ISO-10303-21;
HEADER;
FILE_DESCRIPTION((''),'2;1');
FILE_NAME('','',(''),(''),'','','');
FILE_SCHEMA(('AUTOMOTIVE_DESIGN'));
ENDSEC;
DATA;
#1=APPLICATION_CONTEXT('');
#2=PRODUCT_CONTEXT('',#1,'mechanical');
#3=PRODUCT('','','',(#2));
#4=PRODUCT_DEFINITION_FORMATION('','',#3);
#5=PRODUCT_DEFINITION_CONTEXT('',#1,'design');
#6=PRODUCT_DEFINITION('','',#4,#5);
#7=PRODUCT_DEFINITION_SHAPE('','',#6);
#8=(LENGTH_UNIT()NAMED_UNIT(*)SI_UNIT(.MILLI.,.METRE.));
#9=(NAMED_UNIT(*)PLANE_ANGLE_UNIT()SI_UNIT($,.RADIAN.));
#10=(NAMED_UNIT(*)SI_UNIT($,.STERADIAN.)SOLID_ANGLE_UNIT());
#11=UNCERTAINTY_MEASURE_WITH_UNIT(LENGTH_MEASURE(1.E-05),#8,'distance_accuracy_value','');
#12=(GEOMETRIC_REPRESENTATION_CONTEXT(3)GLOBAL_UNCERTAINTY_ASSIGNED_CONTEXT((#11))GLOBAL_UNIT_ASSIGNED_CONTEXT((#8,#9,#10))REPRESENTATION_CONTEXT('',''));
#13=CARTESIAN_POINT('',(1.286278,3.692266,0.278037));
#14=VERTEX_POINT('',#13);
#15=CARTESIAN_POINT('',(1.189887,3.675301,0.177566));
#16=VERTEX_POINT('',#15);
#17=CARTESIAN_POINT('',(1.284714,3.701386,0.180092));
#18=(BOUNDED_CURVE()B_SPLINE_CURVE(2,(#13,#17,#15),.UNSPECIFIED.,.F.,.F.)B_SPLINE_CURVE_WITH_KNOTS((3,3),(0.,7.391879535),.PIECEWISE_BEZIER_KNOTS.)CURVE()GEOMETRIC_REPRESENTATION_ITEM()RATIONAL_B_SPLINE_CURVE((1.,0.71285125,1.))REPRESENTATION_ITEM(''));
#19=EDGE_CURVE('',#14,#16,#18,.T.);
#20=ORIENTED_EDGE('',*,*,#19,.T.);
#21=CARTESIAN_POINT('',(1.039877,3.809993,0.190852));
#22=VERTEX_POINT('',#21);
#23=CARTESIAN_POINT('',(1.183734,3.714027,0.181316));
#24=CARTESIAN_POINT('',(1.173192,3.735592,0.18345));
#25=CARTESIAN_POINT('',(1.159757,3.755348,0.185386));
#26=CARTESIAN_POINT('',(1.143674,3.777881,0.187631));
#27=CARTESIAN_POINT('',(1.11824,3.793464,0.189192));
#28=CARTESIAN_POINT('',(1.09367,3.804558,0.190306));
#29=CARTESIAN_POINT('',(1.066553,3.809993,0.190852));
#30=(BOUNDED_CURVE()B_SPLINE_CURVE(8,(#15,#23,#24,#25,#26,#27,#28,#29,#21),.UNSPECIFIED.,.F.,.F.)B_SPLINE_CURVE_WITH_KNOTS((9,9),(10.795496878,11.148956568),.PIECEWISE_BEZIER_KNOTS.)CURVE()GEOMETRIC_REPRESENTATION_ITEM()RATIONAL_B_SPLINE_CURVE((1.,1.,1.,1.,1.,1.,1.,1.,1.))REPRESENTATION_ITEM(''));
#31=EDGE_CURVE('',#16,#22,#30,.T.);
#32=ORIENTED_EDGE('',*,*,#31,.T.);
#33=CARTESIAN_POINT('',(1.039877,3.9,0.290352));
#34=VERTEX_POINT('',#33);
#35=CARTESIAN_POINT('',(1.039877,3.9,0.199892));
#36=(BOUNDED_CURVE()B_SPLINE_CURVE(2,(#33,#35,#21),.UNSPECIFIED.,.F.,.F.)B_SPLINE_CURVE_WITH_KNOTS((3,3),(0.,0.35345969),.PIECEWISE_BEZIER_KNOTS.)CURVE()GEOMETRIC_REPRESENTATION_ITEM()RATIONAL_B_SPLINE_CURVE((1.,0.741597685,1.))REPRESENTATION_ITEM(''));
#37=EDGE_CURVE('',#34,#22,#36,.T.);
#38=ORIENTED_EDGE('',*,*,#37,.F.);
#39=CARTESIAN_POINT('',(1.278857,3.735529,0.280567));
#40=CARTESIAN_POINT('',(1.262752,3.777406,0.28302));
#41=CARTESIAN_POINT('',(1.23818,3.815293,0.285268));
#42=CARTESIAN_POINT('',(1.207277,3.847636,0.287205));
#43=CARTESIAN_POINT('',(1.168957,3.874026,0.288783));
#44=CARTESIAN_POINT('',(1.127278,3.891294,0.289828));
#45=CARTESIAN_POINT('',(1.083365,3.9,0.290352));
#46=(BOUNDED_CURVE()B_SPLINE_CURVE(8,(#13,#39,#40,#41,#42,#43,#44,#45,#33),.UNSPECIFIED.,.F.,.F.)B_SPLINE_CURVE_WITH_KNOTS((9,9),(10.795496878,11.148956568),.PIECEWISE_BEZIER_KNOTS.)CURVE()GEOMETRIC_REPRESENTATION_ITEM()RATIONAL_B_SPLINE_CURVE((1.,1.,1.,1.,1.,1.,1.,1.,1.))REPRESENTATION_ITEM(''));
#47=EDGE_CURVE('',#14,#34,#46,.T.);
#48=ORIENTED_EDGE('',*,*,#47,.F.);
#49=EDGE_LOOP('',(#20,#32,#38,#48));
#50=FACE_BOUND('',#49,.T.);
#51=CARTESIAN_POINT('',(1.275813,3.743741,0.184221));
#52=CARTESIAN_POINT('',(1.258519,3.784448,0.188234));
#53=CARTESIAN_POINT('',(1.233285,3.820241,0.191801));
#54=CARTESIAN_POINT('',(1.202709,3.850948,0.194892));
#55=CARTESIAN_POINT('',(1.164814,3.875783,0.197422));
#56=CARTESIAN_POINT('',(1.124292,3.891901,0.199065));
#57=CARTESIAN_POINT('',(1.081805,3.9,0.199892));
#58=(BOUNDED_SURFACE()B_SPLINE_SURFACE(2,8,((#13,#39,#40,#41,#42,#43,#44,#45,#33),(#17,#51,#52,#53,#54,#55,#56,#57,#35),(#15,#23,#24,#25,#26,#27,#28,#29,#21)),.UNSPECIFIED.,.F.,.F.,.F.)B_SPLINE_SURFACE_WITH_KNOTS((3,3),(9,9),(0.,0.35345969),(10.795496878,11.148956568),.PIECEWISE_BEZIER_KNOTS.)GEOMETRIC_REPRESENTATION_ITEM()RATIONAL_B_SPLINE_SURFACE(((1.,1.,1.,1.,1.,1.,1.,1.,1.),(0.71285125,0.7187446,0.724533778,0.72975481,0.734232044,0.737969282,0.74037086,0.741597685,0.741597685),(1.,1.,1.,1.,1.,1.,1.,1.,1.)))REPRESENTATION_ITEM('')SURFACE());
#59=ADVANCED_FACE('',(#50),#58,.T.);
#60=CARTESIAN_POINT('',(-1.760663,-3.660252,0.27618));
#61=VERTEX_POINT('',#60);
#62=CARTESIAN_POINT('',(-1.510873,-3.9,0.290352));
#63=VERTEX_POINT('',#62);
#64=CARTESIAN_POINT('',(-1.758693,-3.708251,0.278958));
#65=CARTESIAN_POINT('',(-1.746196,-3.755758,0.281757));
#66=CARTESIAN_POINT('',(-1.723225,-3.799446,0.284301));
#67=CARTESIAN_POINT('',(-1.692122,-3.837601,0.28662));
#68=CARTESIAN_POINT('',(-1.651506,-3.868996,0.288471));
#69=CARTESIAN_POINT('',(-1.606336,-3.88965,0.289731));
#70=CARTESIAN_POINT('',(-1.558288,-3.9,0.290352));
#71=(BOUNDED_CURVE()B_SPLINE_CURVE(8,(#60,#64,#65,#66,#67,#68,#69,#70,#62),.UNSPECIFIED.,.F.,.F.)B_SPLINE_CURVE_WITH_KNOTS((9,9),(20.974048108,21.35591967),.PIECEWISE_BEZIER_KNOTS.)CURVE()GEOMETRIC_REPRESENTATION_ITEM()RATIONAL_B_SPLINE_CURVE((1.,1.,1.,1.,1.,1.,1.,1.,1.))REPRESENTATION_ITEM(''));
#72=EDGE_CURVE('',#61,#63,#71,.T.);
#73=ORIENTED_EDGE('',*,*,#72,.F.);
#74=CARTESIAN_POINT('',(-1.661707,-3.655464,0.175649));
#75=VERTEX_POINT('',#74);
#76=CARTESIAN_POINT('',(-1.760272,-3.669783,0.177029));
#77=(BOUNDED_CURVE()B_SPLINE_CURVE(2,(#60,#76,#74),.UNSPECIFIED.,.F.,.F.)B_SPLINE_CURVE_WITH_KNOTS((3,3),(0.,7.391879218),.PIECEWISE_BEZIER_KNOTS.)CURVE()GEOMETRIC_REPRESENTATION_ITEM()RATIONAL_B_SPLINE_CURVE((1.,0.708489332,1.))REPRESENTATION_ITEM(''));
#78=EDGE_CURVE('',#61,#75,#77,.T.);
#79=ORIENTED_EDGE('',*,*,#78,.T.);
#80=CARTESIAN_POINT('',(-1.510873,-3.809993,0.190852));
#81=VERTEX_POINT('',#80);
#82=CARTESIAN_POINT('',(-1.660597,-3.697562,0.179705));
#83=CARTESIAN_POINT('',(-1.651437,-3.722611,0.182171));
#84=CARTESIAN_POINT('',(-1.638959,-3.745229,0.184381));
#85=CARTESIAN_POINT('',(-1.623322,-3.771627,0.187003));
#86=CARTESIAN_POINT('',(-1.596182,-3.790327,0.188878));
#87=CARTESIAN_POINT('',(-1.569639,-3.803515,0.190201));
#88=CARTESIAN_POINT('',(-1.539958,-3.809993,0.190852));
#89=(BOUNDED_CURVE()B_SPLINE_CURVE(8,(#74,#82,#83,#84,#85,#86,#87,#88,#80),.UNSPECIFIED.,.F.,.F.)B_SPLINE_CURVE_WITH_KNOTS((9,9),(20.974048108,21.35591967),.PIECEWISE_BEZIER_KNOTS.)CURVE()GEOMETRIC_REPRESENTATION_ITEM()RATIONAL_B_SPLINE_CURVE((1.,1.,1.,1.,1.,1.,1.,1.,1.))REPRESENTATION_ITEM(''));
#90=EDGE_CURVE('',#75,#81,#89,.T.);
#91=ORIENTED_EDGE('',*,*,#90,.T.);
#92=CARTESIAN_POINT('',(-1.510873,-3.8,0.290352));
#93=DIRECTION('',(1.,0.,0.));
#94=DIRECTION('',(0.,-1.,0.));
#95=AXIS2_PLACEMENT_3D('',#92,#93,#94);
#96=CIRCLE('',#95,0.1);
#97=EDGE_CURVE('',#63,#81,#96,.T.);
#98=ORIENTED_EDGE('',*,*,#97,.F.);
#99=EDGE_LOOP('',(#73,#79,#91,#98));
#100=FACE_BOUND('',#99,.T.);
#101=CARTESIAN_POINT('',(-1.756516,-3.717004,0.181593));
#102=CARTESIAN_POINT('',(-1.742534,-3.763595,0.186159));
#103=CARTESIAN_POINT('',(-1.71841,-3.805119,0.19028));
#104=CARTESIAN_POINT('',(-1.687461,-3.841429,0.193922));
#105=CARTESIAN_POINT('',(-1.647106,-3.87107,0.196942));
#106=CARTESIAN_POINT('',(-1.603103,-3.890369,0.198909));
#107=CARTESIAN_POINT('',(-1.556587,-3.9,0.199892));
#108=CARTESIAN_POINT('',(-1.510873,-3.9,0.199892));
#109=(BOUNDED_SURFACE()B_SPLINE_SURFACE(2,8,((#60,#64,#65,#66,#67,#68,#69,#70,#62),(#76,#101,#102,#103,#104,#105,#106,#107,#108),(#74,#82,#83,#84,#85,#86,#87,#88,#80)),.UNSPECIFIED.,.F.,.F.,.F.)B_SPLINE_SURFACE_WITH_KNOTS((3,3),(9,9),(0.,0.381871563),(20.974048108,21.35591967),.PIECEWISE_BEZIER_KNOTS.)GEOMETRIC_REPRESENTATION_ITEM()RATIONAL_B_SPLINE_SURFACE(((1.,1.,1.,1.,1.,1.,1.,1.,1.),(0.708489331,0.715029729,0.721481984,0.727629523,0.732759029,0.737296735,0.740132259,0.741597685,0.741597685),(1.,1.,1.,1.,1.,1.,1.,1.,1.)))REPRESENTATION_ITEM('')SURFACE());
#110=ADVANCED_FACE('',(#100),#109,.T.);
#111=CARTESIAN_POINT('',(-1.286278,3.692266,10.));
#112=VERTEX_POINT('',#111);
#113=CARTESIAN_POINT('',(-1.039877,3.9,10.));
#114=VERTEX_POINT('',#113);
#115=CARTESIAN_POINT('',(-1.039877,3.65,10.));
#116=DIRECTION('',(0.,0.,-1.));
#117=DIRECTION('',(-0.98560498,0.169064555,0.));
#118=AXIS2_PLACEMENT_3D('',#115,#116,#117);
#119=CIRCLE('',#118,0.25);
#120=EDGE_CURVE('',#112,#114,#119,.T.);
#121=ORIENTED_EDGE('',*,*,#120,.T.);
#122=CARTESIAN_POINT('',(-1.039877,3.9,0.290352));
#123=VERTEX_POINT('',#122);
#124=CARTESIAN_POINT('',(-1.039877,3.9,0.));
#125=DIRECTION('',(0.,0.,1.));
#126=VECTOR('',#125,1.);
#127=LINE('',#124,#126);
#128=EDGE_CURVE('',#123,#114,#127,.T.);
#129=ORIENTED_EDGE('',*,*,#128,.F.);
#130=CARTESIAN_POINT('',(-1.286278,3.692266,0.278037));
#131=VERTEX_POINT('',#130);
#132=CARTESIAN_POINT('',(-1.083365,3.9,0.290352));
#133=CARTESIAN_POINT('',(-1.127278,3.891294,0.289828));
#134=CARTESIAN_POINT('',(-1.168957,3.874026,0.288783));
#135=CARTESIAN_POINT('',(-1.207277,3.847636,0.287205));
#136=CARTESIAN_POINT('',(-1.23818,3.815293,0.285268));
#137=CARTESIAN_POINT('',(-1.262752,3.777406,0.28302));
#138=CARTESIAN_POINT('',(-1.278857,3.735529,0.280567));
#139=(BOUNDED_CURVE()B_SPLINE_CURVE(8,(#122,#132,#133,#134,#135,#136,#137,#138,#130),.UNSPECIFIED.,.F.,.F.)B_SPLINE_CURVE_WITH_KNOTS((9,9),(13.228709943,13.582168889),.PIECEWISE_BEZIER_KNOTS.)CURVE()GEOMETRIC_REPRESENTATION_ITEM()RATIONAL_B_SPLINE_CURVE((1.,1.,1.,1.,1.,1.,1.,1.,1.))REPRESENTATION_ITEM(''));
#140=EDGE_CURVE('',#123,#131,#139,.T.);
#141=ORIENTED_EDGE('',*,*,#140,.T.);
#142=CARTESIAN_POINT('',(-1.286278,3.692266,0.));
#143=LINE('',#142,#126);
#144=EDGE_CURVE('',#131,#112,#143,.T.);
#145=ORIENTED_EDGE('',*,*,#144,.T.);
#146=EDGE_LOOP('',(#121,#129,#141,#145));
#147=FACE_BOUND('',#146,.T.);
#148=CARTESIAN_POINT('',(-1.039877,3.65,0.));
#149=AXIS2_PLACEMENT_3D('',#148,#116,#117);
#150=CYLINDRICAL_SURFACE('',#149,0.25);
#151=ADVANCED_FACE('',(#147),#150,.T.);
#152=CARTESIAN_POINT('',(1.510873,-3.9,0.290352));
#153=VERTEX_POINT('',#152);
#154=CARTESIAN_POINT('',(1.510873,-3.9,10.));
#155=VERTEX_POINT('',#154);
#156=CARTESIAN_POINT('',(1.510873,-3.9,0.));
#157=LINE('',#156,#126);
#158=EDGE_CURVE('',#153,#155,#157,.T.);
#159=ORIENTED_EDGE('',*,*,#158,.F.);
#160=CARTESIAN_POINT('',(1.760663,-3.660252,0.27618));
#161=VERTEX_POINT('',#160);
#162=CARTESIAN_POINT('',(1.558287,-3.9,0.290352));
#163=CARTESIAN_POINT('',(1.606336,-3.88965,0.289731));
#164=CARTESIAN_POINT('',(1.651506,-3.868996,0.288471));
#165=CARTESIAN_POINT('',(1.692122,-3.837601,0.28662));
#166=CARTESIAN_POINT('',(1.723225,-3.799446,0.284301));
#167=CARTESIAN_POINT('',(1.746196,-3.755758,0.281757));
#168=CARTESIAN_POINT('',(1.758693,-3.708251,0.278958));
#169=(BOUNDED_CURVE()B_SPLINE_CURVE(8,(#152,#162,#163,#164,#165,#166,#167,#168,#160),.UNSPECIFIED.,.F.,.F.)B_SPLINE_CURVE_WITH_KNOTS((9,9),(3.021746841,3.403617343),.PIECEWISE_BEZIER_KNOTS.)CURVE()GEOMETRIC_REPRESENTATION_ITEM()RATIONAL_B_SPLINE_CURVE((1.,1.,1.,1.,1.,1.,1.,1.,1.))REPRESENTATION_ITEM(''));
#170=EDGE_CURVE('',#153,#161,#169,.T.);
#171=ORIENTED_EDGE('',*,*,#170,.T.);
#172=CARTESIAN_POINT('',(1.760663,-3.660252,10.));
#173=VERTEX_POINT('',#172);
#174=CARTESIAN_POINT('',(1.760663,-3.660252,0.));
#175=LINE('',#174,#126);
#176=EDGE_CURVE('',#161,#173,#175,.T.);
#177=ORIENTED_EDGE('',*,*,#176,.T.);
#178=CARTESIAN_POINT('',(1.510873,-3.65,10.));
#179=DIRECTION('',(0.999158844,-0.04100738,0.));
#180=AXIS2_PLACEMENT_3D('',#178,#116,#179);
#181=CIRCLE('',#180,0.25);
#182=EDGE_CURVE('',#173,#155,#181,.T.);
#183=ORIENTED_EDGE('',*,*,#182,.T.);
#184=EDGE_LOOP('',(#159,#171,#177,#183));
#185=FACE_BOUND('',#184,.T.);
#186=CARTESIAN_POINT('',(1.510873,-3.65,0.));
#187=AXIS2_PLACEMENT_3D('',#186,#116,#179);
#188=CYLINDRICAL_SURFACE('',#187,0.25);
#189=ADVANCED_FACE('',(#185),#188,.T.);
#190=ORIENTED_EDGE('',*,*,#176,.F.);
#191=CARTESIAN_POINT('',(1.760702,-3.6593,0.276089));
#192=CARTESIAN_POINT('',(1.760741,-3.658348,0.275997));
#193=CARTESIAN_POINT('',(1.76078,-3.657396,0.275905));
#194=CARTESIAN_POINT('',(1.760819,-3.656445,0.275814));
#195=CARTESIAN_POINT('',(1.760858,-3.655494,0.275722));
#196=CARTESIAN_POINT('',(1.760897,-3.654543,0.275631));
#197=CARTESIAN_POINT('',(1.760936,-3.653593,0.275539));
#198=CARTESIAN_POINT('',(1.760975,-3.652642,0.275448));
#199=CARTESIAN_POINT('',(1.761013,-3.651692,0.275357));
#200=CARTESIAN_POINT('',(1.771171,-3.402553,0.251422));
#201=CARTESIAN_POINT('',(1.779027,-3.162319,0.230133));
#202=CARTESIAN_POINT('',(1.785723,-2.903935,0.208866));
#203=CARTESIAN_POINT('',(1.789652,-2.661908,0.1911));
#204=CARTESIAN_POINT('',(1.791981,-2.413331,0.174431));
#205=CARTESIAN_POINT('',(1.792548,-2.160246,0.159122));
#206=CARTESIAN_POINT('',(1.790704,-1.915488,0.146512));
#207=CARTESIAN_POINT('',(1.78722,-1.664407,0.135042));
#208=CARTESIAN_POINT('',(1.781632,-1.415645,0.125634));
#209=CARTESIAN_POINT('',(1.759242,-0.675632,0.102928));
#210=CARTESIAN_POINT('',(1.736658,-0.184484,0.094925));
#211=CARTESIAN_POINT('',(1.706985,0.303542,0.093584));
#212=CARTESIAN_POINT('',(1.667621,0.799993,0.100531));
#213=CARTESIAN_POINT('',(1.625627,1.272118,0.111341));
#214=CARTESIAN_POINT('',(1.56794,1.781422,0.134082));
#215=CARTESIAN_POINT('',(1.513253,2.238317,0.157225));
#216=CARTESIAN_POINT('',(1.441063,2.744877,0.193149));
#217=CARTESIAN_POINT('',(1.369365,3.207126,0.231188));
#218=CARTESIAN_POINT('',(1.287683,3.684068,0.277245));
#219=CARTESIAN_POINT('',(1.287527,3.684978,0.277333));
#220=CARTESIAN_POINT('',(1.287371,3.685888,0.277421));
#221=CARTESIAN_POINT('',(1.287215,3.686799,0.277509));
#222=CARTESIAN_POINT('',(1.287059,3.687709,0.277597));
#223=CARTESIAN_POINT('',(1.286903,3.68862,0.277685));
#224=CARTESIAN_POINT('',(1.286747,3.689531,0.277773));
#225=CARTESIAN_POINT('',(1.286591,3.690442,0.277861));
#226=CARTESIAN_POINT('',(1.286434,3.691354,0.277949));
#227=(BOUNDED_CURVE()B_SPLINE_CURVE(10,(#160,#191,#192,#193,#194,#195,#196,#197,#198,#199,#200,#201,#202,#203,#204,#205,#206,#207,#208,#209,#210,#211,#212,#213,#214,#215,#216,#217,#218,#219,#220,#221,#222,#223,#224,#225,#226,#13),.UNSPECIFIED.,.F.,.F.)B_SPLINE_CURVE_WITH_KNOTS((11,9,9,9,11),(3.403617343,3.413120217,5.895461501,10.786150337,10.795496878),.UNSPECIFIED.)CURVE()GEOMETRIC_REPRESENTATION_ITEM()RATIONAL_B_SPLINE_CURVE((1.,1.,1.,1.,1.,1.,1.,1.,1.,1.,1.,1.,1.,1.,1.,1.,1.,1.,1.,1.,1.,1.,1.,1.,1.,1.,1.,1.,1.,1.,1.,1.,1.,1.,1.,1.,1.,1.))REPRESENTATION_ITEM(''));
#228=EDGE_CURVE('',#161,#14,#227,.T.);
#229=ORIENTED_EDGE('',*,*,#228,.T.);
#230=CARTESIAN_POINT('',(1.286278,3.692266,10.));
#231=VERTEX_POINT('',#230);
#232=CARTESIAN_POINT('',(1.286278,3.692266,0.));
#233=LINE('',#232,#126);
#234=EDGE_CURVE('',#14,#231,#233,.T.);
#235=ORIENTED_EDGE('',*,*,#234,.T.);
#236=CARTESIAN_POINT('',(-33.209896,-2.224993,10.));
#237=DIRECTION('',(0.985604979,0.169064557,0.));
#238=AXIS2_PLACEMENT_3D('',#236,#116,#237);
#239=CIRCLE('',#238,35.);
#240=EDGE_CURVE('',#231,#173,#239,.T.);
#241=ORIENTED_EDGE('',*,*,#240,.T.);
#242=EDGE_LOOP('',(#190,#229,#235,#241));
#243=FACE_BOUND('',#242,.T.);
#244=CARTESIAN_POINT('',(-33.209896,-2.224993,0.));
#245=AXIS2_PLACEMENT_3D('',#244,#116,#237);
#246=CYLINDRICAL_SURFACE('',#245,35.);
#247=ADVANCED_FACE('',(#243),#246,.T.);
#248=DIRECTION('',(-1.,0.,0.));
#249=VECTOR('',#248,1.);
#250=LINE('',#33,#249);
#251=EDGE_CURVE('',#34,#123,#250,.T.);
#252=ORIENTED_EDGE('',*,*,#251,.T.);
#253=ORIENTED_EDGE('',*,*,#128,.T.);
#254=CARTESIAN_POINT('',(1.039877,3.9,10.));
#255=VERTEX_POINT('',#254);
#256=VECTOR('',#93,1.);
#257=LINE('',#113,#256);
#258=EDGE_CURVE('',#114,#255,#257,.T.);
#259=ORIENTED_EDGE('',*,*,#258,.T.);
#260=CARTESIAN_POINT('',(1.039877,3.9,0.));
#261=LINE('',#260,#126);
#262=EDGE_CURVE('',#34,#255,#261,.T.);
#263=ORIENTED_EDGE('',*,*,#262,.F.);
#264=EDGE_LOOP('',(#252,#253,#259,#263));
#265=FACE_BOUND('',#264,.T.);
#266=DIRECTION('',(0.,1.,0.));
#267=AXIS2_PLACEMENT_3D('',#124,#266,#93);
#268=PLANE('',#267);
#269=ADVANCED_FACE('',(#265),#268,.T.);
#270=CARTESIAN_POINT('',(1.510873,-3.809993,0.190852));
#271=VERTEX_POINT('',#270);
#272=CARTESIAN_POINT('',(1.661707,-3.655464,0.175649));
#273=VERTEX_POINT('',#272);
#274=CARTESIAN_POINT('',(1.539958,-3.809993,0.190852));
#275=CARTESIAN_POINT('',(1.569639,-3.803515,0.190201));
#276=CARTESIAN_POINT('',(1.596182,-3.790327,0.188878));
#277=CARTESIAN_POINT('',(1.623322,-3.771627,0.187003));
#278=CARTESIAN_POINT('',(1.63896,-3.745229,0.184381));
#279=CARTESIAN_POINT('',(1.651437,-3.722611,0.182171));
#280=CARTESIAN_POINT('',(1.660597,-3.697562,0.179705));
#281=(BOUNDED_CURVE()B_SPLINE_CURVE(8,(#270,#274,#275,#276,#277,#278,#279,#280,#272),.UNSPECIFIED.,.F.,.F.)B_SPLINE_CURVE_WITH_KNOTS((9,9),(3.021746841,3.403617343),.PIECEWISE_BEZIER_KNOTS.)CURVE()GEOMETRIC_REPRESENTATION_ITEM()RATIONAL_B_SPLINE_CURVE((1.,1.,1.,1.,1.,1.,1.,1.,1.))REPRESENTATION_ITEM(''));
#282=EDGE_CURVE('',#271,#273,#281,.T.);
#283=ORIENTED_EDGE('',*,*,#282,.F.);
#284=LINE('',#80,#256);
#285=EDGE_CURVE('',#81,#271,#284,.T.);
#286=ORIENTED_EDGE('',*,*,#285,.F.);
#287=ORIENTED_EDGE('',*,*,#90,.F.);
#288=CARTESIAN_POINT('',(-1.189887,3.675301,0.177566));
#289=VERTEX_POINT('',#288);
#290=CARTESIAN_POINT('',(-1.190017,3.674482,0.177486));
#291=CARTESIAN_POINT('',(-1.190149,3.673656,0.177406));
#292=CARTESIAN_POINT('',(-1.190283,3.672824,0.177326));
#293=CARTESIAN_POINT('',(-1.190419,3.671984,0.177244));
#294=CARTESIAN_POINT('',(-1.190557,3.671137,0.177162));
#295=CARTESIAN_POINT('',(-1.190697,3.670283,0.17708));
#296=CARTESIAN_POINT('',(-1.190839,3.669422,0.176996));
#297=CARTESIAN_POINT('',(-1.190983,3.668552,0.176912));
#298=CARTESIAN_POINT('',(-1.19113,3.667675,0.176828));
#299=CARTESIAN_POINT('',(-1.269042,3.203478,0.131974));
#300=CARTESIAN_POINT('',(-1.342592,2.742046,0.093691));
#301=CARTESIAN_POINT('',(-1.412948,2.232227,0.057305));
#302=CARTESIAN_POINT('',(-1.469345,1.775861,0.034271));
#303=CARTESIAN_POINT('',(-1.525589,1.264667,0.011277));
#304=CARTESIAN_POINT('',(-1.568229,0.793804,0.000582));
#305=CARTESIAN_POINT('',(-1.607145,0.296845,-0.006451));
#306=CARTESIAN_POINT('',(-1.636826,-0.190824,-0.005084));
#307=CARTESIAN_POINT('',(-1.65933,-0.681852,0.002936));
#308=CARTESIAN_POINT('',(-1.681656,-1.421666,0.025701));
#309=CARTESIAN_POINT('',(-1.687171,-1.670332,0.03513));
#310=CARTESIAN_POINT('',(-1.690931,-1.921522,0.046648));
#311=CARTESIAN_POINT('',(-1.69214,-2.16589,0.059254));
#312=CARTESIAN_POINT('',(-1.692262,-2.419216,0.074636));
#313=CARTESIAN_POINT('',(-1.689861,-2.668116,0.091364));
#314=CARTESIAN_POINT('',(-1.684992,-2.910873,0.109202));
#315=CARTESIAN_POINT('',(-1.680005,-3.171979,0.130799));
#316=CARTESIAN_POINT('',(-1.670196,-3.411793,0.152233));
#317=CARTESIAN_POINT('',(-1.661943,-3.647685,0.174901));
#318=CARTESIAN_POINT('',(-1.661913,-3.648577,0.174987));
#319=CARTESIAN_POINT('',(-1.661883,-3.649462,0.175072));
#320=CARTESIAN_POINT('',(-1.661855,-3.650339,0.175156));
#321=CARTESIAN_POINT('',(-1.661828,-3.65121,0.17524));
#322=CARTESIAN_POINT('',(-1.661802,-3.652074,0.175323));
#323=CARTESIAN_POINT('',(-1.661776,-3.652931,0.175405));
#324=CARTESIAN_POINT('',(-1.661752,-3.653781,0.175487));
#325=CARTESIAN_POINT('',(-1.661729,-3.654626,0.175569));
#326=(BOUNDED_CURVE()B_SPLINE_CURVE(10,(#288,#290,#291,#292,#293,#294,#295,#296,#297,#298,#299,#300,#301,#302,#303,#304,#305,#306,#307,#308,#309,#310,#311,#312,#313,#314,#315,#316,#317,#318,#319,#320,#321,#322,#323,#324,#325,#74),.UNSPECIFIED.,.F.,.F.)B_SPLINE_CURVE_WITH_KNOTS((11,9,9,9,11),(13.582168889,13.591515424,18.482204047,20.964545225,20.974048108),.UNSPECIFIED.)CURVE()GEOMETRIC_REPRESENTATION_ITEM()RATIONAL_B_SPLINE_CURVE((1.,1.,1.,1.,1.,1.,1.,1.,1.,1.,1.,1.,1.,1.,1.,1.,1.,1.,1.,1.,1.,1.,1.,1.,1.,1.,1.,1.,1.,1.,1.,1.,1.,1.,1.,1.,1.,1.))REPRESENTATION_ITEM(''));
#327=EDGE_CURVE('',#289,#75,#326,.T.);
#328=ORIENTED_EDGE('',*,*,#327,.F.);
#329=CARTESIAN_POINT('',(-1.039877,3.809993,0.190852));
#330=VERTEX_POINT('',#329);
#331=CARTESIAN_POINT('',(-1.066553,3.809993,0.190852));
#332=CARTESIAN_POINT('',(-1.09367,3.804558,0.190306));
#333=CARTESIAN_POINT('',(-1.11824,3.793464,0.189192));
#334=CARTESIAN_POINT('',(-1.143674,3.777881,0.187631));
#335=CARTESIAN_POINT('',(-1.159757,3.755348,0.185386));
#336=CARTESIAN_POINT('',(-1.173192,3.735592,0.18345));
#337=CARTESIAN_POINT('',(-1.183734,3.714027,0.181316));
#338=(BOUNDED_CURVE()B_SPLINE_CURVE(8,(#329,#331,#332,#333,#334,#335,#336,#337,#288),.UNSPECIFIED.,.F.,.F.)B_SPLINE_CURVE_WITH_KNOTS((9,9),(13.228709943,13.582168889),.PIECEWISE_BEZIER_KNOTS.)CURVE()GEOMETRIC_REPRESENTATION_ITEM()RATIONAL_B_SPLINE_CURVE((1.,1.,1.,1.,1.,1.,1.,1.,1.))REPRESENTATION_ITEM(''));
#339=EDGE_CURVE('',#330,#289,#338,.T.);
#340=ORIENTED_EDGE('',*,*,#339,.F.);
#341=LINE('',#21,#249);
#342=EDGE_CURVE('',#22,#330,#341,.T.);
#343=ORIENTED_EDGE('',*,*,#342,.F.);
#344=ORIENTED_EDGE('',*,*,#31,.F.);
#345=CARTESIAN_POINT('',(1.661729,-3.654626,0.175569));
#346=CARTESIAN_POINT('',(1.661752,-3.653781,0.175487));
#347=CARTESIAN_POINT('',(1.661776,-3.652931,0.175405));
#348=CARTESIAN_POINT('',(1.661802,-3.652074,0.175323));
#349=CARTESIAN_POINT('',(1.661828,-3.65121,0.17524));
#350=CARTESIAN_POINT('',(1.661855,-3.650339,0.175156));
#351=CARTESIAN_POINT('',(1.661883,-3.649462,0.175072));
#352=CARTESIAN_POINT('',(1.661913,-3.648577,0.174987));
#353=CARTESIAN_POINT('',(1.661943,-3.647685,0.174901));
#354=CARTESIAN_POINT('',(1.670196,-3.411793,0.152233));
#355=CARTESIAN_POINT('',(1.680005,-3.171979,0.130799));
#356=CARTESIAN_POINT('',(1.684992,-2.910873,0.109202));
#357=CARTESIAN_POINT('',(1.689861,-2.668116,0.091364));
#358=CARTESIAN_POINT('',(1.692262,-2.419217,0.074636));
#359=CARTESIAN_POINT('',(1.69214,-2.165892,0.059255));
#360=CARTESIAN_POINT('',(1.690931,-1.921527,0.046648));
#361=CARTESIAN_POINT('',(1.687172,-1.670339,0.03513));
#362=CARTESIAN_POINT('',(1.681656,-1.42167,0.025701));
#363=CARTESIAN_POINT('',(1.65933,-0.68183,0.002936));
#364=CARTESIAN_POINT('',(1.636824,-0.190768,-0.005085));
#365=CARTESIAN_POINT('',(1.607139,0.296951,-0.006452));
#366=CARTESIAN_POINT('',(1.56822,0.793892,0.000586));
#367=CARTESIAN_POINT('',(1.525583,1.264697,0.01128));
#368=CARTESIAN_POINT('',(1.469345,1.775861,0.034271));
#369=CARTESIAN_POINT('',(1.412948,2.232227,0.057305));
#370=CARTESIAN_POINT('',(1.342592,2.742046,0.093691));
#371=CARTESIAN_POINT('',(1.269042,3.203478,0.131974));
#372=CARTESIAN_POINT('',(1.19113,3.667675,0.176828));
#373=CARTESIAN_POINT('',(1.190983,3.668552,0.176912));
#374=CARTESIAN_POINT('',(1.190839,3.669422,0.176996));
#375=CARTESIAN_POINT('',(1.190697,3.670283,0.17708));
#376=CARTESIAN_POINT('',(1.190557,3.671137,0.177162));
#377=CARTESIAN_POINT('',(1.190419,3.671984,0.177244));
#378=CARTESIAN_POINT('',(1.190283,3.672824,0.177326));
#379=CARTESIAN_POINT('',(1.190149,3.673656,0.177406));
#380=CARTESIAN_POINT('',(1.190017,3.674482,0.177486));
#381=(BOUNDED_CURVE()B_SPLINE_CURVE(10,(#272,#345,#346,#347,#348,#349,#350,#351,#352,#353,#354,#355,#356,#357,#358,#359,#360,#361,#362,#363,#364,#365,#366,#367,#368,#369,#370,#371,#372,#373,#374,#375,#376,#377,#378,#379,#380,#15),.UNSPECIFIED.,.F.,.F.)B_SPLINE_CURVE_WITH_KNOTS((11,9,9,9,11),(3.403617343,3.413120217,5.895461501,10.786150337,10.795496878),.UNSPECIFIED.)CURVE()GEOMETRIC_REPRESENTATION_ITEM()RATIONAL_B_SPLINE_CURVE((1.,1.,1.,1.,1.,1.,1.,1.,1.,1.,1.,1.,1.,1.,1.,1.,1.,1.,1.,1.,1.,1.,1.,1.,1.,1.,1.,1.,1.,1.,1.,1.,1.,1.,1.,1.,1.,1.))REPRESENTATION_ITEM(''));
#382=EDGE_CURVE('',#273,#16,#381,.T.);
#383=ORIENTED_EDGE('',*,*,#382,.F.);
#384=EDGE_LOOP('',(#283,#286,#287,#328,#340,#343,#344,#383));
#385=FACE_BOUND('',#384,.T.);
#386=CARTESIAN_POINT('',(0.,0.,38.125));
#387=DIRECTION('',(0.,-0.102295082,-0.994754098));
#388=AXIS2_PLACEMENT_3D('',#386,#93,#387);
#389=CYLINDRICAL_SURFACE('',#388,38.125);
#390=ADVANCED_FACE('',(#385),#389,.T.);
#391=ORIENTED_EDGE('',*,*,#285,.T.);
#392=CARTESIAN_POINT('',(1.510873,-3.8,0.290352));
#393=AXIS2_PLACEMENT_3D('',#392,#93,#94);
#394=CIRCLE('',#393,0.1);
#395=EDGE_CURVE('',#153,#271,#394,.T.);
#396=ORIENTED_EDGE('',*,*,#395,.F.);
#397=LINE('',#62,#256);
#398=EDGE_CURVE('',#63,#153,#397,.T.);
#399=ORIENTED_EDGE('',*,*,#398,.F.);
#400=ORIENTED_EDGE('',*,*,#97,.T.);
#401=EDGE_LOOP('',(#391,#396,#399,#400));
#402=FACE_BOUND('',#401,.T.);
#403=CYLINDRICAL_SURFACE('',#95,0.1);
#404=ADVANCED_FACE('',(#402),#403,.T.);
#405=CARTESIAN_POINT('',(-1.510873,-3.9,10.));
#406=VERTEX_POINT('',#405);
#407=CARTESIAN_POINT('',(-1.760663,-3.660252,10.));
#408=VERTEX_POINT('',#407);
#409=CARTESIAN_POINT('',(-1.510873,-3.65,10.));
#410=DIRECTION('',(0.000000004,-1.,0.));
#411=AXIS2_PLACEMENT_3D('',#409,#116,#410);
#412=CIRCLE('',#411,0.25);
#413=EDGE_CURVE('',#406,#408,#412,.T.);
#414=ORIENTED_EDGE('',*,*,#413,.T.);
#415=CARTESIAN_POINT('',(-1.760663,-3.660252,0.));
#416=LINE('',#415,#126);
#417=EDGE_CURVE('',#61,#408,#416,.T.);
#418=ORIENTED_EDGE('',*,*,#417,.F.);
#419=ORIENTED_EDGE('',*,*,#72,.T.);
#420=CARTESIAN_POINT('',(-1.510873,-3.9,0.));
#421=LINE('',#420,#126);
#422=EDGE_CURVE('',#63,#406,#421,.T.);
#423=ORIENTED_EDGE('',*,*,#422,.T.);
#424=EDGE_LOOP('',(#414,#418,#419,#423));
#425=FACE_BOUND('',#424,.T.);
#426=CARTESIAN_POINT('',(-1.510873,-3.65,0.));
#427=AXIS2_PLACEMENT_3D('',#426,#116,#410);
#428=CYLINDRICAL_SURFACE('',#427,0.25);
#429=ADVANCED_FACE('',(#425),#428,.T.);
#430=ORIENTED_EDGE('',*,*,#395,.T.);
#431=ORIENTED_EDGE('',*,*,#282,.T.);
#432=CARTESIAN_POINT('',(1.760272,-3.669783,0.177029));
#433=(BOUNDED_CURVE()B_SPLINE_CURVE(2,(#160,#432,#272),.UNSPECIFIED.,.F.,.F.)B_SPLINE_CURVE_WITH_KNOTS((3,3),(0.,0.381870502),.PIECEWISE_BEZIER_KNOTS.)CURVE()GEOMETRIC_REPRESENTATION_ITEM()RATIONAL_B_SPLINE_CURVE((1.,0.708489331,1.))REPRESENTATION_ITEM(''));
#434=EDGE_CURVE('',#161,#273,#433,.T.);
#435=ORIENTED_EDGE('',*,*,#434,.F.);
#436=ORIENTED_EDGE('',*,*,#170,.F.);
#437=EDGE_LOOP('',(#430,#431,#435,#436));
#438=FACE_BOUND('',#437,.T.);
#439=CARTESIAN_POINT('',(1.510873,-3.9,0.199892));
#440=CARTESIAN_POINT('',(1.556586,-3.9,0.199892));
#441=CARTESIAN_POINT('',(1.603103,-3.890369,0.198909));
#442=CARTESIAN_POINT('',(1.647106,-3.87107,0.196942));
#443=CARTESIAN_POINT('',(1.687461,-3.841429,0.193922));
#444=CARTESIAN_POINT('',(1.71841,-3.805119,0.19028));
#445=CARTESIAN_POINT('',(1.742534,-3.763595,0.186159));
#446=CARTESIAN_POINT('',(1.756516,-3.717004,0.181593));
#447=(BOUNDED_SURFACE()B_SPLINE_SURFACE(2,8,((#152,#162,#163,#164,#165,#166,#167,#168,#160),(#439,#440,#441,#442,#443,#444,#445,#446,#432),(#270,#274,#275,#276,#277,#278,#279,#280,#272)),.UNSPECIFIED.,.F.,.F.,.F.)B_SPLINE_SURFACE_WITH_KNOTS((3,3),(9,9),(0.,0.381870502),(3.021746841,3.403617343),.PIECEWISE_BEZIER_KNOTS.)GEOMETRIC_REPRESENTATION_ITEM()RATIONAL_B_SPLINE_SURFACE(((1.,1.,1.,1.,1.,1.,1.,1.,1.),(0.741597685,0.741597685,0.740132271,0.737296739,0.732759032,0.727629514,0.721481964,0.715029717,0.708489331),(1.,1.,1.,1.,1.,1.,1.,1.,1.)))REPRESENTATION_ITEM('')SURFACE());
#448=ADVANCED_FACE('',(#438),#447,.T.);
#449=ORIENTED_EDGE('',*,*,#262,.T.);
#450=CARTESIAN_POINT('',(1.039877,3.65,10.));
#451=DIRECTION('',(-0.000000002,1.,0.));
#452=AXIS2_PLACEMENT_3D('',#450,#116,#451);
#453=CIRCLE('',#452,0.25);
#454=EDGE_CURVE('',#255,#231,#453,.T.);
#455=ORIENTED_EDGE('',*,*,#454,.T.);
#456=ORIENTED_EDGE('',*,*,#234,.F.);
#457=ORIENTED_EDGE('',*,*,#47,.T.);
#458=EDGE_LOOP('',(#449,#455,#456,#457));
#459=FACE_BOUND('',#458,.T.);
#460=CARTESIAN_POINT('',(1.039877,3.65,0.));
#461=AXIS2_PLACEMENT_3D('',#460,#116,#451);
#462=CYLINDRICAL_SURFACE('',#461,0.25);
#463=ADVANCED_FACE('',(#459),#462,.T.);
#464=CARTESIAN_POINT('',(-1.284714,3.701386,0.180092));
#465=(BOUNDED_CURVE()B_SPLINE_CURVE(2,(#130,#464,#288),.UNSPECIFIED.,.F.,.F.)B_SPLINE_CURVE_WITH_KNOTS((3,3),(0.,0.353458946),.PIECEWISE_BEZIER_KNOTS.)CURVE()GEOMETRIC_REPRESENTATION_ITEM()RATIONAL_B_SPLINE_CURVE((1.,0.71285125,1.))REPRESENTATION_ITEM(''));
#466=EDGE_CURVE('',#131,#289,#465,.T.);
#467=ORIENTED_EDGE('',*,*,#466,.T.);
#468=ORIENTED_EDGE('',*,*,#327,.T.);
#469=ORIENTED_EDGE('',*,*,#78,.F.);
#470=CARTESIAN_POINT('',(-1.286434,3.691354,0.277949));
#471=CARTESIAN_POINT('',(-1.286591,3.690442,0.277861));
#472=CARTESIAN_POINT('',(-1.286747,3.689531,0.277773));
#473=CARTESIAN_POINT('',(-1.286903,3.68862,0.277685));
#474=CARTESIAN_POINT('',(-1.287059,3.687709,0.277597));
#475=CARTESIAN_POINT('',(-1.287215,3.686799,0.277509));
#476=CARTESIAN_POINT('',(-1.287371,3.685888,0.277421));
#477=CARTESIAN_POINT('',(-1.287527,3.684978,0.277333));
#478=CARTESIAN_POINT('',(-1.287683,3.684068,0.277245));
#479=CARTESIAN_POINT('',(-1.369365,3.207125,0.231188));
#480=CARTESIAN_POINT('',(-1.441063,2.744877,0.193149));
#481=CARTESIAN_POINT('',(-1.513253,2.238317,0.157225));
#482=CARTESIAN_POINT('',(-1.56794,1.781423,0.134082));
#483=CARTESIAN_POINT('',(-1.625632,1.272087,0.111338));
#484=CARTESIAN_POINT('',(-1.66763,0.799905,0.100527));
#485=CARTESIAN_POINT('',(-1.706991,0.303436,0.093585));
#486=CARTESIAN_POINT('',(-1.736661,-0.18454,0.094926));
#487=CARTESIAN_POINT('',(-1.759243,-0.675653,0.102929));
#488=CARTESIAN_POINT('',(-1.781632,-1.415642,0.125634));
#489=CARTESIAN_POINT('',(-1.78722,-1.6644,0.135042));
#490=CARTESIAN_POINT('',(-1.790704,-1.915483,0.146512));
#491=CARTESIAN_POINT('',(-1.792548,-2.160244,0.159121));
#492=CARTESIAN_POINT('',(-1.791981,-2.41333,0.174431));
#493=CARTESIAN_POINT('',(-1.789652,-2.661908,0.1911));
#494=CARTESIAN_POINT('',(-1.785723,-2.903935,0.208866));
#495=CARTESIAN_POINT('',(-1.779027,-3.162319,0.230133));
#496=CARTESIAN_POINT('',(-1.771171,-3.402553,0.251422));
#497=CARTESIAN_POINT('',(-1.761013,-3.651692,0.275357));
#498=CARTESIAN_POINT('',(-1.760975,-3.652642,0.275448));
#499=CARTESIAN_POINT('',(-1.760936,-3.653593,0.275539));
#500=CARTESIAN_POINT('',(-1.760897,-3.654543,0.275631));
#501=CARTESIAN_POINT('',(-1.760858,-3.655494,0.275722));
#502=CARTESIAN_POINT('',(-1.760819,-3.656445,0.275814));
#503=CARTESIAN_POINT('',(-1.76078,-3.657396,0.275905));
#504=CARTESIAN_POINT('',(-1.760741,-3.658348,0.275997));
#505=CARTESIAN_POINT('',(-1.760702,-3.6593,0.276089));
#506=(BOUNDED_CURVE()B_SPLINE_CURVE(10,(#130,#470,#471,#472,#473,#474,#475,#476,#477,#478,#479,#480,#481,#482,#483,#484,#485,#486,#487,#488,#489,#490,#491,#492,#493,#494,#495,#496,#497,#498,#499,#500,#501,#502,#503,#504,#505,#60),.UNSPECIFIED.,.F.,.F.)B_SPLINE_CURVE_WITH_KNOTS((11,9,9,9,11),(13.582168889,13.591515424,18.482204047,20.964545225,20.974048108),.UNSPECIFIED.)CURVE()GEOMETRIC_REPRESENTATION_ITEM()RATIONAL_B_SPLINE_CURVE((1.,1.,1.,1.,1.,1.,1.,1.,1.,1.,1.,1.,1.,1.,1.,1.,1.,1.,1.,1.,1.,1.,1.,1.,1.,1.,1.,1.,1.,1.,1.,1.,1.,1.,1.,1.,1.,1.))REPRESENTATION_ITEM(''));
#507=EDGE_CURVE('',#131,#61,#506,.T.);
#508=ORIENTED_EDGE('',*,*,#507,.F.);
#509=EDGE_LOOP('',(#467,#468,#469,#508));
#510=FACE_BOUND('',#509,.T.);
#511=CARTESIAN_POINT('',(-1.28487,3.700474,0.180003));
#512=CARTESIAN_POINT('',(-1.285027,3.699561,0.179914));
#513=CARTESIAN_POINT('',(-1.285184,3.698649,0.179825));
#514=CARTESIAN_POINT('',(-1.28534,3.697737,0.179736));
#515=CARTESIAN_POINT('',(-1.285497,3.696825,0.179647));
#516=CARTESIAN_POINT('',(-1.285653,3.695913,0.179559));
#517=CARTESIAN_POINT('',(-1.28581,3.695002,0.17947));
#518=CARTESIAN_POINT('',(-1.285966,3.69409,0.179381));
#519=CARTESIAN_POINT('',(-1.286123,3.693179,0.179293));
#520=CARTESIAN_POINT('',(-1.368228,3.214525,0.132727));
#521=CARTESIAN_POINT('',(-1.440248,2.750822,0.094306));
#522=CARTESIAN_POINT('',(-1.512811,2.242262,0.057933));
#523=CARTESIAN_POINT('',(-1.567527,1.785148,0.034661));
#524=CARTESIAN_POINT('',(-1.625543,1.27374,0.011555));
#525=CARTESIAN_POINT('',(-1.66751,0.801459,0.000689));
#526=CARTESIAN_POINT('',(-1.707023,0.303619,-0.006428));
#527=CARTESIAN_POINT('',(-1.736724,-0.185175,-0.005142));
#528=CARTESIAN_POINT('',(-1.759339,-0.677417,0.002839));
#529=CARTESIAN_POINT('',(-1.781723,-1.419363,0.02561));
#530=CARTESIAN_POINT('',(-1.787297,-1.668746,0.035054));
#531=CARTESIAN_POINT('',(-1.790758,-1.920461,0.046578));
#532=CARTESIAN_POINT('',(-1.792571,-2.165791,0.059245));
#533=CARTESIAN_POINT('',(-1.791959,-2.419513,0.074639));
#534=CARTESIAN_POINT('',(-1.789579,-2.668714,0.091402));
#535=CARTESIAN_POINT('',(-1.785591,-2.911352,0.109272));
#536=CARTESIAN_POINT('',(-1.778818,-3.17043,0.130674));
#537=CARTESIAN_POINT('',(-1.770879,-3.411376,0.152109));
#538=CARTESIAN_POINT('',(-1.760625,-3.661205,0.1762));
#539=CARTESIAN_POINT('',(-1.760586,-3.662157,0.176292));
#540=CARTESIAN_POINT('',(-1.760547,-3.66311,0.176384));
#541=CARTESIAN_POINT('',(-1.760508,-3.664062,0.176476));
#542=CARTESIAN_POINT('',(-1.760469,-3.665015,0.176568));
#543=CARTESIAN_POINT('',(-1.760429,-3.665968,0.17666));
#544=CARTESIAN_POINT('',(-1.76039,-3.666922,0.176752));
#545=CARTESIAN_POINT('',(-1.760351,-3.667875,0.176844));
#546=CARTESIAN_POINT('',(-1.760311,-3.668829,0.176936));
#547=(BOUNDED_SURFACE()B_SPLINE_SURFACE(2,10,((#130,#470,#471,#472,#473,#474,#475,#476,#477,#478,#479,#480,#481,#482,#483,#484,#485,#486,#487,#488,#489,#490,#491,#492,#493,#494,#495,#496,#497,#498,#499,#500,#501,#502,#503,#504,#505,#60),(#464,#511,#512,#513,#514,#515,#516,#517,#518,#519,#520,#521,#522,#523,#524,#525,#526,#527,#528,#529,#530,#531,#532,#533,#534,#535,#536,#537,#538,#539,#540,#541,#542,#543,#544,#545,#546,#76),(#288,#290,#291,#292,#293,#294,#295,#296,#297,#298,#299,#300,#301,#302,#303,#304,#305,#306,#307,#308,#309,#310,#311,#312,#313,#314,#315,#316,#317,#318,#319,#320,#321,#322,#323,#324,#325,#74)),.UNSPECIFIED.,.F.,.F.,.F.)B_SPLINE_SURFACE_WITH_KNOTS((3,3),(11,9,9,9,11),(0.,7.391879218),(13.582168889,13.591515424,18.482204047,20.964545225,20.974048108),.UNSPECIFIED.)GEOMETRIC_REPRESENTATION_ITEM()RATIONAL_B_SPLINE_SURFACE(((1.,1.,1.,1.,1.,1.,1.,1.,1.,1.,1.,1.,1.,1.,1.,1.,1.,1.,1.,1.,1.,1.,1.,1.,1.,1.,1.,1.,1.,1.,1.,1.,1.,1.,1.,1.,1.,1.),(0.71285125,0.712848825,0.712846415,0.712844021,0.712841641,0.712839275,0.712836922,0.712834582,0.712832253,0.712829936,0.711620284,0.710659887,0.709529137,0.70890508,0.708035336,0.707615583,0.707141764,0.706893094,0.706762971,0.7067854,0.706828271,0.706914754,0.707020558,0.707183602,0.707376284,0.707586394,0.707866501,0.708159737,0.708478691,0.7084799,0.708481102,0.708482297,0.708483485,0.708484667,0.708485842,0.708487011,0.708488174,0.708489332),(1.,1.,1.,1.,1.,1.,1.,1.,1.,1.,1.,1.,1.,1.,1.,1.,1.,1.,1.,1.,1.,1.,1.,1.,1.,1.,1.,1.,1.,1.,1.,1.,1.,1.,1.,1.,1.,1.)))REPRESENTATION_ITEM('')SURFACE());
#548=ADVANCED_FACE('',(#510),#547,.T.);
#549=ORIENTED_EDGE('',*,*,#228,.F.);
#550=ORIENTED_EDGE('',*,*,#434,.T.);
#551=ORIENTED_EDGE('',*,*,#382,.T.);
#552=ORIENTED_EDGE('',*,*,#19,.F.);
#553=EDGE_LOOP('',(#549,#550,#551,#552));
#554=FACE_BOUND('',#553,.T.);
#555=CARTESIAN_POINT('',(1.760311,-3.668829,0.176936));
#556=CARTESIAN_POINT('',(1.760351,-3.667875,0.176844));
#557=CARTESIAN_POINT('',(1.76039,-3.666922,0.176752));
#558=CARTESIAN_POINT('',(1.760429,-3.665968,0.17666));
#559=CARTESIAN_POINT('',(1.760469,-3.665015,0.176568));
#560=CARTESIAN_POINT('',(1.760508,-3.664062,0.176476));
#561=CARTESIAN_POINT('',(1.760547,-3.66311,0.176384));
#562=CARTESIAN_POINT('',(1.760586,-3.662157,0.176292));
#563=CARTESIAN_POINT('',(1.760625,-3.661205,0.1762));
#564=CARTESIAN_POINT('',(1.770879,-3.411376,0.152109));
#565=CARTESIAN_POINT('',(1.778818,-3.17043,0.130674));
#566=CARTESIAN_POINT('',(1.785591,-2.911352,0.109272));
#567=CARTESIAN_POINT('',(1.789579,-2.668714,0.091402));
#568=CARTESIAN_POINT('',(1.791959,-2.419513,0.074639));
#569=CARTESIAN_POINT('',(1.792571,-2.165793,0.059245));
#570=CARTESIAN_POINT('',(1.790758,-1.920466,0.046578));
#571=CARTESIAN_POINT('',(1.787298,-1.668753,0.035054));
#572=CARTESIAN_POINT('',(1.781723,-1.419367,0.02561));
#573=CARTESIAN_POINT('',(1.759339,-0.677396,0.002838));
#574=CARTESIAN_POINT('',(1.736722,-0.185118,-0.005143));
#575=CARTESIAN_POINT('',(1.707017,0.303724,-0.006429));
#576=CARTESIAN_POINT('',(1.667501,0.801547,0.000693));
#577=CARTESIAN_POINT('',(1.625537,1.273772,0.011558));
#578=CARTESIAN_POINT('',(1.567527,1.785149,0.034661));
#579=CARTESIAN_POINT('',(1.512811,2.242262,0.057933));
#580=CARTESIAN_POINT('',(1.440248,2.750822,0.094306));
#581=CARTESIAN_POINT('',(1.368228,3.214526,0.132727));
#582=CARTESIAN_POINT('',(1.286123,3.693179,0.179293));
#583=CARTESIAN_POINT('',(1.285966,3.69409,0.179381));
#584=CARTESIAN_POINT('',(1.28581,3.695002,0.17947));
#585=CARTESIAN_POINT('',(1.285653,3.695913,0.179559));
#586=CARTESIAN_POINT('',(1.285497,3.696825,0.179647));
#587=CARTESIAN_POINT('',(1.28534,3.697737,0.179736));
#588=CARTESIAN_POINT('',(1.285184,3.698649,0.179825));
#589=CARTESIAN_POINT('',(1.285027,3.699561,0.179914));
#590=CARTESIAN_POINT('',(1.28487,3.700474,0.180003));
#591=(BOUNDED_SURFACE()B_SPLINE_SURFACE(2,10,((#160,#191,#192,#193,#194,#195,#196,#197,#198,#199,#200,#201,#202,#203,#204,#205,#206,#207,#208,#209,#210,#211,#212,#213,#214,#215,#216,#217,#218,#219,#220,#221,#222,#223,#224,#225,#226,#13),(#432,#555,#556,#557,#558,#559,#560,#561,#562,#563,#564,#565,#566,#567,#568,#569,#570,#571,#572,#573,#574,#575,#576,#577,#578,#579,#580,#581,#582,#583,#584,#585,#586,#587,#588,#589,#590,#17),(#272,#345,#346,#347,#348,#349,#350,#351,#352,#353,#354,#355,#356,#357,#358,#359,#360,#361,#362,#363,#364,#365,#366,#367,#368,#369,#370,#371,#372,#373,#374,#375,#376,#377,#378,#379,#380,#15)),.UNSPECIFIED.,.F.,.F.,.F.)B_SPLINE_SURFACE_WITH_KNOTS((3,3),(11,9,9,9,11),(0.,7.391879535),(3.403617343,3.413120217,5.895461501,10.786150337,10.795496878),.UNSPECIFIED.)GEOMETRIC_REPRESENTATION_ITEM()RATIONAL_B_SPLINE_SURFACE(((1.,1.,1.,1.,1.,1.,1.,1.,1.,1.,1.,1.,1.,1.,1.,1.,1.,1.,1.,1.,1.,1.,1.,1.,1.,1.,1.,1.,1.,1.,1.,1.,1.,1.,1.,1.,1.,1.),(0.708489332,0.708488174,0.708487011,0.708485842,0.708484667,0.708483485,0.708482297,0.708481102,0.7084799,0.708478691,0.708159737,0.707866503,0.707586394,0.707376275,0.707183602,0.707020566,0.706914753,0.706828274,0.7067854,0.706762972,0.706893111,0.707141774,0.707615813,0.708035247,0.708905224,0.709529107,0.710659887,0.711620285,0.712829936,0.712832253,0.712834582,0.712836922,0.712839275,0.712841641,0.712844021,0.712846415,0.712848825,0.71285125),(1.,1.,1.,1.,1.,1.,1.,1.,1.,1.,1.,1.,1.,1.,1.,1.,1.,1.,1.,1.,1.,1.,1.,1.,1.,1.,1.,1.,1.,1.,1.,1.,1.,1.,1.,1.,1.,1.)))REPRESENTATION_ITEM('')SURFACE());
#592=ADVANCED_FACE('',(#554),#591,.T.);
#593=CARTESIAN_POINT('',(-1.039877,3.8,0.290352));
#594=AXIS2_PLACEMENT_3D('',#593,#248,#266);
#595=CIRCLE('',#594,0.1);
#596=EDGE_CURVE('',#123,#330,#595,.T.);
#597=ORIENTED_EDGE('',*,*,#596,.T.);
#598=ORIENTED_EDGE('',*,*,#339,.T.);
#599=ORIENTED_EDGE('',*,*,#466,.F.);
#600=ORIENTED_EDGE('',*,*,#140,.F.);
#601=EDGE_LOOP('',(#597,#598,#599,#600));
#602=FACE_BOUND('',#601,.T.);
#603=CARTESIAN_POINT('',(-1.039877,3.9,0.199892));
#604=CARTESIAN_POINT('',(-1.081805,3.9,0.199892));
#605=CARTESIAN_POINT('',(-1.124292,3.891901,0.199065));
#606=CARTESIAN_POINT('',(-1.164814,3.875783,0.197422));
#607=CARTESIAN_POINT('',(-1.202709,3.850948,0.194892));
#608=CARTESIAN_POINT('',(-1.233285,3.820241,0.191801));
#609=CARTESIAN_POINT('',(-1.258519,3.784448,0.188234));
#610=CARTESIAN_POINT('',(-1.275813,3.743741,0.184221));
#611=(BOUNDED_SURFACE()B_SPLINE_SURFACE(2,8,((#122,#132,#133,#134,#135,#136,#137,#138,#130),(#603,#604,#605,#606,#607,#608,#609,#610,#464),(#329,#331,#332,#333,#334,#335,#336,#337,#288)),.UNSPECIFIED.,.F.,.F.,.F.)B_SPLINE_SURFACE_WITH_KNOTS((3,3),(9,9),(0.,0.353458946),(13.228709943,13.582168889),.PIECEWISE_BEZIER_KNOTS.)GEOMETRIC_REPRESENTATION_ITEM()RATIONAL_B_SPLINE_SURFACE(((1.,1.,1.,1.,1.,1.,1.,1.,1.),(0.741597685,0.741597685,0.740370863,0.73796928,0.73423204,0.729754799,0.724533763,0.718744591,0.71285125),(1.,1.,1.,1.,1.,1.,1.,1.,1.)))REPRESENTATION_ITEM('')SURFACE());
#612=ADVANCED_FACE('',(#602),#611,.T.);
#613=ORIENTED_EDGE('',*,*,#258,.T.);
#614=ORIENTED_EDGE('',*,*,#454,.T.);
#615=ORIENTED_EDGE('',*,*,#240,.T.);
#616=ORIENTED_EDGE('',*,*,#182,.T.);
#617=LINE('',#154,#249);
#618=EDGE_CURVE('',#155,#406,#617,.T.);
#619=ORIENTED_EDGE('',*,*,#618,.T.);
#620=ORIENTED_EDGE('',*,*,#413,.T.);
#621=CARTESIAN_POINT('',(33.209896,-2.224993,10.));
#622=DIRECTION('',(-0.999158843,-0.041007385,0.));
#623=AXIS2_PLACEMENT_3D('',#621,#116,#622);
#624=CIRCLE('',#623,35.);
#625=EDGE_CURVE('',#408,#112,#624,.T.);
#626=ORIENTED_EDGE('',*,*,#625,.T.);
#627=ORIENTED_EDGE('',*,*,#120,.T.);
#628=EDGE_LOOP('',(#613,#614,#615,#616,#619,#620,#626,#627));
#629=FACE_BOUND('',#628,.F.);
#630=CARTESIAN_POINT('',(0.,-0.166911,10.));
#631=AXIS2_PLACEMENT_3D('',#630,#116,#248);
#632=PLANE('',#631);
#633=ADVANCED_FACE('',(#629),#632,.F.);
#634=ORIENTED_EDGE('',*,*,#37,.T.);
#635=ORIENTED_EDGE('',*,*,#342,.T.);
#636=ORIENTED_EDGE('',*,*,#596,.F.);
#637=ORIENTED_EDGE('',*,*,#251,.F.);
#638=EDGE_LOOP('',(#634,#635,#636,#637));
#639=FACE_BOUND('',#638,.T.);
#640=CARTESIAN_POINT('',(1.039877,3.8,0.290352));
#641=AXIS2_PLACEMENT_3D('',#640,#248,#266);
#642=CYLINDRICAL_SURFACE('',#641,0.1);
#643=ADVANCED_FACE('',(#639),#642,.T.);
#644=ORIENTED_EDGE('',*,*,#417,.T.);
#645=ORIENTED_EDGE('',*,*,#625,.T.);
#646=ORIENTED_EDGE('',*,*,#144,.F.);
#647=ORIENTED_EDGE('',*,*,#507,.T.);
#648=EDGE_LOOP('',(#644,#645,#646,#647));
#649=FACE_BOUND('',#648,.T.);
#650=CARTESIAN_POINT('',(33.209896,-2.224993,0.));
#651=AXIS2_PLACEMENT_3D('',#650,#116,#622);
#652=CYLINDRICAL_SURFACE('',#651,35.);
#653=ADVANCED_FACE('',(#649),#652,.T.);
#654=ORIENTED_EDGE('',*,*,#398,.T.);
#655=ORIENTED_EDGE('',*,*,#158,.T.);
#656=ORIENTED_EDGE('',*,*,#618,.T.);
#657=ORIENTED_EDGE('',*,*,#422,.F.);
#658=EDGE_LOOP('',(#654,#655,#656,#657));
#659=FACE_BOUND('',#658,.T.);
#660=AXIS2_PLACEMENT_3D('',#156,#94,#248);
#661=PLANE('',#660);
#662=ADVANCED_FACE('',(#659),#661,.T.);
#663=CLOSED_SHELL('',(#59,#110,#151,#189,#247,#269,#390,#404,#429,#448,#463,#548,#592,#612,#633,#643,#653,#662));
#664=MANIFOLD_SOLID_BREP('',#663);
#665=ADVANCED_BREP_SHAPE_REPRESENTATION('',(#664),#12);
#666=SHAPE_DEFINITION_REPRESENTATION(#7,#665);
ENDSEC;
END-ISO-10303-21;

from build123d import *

# Parameters (mm, degrees)
BOSS_EXTRUDE1_DEPTH = 10
CUT_EXTRUDE1_DEPTH  = 5
FILLET1_R           = 0.1


with BuildPart() as part:
    # Sketch1 → Boss-Extrude1 (new body)
    with BuildSketch(Plane.XY):
        with BuildLine():
            Line((-1.039876688, 3.9), (1.039876688, 3.9))
            ThreePointArc((1.039876688, 3.9), (1.201018652, 3.841136777), (1.286277933, 3.692266139))
            ThreePointArc((1.286277933, 3.692266139), (1.717480541, 0.028524691), (1.76066317, -3.660251846))
            ThreePointArc((1.76066317, -3.660251846), (1.683987639, -3.830364855), (1.510873459, -3.9))
            Line((1.510873459, -3.9), (-1.510873459, -3.9))
            ThreePointArc((-1.510873459, -3.9), (-1.683987639, -3.830364855), (-1.76066317, -3.660251846))
            ThreePointArc((-1.76066317, -3.660251846), (-1.717480541, 0.028524691), (-1.286277933, 3.692266139))
            ThreePointArc((-1.286277933, 3.692266139), (-1.201018652, 3.841136777), (-1.039876688, 3.9))
        make_face()
    extrude(amount=BOSS_EXTRUDE1_DEPTH)

    # Sketch2 → Cut-Extrude1 (cut, symmetric)
    with BuildSketch(Plane(origin=(0, 0, 0), x_dir=(0, 0, -1), z_dir=(1, 0, 0))):
        with BuildLine():
            Line((-0.2, 3.9), (0.726559292, 4.710927033))
            Line((0.726559292, 4.710927033), (3.434911983, -0.70577835))
            Line((3.434911983, -0.70577835), (0.497037877, -4.82568774))
            Line((0.497037877, -4.82568774), (-0.2, -3.9))
            ThreePointArc((-0.2, -3.9), (0, 0), (-0.2, 3.9))
        make_face()
    extrude(amount=CUT_EXTRUDE1_DEPTH, both=True, mode=Mode.SUBTRACT)

    # Fillet1
    fillet1_edges = [part.edges().sort_by_distance(p)[0] for p in [
        (0, -3.9, 0.2),
        (1.684192827, -3.830167686, 0.192883786),
        (1.717477583, 0.028570224, 1.0712e-05),
        (-1.717477583, 0.028570224, 1.0712e-05),
        (-1.684192827, -3.830167687, 0.192883786),
        (-1.201207437, 3.840977456, 0.19397685),
        (1.201207437, 3.840977456, 0.19397685),
        (0, 3.9, 0.2),
    ]]
    fillet(fillet1_edges, radius=FILLET1_R)


solid = part.part
